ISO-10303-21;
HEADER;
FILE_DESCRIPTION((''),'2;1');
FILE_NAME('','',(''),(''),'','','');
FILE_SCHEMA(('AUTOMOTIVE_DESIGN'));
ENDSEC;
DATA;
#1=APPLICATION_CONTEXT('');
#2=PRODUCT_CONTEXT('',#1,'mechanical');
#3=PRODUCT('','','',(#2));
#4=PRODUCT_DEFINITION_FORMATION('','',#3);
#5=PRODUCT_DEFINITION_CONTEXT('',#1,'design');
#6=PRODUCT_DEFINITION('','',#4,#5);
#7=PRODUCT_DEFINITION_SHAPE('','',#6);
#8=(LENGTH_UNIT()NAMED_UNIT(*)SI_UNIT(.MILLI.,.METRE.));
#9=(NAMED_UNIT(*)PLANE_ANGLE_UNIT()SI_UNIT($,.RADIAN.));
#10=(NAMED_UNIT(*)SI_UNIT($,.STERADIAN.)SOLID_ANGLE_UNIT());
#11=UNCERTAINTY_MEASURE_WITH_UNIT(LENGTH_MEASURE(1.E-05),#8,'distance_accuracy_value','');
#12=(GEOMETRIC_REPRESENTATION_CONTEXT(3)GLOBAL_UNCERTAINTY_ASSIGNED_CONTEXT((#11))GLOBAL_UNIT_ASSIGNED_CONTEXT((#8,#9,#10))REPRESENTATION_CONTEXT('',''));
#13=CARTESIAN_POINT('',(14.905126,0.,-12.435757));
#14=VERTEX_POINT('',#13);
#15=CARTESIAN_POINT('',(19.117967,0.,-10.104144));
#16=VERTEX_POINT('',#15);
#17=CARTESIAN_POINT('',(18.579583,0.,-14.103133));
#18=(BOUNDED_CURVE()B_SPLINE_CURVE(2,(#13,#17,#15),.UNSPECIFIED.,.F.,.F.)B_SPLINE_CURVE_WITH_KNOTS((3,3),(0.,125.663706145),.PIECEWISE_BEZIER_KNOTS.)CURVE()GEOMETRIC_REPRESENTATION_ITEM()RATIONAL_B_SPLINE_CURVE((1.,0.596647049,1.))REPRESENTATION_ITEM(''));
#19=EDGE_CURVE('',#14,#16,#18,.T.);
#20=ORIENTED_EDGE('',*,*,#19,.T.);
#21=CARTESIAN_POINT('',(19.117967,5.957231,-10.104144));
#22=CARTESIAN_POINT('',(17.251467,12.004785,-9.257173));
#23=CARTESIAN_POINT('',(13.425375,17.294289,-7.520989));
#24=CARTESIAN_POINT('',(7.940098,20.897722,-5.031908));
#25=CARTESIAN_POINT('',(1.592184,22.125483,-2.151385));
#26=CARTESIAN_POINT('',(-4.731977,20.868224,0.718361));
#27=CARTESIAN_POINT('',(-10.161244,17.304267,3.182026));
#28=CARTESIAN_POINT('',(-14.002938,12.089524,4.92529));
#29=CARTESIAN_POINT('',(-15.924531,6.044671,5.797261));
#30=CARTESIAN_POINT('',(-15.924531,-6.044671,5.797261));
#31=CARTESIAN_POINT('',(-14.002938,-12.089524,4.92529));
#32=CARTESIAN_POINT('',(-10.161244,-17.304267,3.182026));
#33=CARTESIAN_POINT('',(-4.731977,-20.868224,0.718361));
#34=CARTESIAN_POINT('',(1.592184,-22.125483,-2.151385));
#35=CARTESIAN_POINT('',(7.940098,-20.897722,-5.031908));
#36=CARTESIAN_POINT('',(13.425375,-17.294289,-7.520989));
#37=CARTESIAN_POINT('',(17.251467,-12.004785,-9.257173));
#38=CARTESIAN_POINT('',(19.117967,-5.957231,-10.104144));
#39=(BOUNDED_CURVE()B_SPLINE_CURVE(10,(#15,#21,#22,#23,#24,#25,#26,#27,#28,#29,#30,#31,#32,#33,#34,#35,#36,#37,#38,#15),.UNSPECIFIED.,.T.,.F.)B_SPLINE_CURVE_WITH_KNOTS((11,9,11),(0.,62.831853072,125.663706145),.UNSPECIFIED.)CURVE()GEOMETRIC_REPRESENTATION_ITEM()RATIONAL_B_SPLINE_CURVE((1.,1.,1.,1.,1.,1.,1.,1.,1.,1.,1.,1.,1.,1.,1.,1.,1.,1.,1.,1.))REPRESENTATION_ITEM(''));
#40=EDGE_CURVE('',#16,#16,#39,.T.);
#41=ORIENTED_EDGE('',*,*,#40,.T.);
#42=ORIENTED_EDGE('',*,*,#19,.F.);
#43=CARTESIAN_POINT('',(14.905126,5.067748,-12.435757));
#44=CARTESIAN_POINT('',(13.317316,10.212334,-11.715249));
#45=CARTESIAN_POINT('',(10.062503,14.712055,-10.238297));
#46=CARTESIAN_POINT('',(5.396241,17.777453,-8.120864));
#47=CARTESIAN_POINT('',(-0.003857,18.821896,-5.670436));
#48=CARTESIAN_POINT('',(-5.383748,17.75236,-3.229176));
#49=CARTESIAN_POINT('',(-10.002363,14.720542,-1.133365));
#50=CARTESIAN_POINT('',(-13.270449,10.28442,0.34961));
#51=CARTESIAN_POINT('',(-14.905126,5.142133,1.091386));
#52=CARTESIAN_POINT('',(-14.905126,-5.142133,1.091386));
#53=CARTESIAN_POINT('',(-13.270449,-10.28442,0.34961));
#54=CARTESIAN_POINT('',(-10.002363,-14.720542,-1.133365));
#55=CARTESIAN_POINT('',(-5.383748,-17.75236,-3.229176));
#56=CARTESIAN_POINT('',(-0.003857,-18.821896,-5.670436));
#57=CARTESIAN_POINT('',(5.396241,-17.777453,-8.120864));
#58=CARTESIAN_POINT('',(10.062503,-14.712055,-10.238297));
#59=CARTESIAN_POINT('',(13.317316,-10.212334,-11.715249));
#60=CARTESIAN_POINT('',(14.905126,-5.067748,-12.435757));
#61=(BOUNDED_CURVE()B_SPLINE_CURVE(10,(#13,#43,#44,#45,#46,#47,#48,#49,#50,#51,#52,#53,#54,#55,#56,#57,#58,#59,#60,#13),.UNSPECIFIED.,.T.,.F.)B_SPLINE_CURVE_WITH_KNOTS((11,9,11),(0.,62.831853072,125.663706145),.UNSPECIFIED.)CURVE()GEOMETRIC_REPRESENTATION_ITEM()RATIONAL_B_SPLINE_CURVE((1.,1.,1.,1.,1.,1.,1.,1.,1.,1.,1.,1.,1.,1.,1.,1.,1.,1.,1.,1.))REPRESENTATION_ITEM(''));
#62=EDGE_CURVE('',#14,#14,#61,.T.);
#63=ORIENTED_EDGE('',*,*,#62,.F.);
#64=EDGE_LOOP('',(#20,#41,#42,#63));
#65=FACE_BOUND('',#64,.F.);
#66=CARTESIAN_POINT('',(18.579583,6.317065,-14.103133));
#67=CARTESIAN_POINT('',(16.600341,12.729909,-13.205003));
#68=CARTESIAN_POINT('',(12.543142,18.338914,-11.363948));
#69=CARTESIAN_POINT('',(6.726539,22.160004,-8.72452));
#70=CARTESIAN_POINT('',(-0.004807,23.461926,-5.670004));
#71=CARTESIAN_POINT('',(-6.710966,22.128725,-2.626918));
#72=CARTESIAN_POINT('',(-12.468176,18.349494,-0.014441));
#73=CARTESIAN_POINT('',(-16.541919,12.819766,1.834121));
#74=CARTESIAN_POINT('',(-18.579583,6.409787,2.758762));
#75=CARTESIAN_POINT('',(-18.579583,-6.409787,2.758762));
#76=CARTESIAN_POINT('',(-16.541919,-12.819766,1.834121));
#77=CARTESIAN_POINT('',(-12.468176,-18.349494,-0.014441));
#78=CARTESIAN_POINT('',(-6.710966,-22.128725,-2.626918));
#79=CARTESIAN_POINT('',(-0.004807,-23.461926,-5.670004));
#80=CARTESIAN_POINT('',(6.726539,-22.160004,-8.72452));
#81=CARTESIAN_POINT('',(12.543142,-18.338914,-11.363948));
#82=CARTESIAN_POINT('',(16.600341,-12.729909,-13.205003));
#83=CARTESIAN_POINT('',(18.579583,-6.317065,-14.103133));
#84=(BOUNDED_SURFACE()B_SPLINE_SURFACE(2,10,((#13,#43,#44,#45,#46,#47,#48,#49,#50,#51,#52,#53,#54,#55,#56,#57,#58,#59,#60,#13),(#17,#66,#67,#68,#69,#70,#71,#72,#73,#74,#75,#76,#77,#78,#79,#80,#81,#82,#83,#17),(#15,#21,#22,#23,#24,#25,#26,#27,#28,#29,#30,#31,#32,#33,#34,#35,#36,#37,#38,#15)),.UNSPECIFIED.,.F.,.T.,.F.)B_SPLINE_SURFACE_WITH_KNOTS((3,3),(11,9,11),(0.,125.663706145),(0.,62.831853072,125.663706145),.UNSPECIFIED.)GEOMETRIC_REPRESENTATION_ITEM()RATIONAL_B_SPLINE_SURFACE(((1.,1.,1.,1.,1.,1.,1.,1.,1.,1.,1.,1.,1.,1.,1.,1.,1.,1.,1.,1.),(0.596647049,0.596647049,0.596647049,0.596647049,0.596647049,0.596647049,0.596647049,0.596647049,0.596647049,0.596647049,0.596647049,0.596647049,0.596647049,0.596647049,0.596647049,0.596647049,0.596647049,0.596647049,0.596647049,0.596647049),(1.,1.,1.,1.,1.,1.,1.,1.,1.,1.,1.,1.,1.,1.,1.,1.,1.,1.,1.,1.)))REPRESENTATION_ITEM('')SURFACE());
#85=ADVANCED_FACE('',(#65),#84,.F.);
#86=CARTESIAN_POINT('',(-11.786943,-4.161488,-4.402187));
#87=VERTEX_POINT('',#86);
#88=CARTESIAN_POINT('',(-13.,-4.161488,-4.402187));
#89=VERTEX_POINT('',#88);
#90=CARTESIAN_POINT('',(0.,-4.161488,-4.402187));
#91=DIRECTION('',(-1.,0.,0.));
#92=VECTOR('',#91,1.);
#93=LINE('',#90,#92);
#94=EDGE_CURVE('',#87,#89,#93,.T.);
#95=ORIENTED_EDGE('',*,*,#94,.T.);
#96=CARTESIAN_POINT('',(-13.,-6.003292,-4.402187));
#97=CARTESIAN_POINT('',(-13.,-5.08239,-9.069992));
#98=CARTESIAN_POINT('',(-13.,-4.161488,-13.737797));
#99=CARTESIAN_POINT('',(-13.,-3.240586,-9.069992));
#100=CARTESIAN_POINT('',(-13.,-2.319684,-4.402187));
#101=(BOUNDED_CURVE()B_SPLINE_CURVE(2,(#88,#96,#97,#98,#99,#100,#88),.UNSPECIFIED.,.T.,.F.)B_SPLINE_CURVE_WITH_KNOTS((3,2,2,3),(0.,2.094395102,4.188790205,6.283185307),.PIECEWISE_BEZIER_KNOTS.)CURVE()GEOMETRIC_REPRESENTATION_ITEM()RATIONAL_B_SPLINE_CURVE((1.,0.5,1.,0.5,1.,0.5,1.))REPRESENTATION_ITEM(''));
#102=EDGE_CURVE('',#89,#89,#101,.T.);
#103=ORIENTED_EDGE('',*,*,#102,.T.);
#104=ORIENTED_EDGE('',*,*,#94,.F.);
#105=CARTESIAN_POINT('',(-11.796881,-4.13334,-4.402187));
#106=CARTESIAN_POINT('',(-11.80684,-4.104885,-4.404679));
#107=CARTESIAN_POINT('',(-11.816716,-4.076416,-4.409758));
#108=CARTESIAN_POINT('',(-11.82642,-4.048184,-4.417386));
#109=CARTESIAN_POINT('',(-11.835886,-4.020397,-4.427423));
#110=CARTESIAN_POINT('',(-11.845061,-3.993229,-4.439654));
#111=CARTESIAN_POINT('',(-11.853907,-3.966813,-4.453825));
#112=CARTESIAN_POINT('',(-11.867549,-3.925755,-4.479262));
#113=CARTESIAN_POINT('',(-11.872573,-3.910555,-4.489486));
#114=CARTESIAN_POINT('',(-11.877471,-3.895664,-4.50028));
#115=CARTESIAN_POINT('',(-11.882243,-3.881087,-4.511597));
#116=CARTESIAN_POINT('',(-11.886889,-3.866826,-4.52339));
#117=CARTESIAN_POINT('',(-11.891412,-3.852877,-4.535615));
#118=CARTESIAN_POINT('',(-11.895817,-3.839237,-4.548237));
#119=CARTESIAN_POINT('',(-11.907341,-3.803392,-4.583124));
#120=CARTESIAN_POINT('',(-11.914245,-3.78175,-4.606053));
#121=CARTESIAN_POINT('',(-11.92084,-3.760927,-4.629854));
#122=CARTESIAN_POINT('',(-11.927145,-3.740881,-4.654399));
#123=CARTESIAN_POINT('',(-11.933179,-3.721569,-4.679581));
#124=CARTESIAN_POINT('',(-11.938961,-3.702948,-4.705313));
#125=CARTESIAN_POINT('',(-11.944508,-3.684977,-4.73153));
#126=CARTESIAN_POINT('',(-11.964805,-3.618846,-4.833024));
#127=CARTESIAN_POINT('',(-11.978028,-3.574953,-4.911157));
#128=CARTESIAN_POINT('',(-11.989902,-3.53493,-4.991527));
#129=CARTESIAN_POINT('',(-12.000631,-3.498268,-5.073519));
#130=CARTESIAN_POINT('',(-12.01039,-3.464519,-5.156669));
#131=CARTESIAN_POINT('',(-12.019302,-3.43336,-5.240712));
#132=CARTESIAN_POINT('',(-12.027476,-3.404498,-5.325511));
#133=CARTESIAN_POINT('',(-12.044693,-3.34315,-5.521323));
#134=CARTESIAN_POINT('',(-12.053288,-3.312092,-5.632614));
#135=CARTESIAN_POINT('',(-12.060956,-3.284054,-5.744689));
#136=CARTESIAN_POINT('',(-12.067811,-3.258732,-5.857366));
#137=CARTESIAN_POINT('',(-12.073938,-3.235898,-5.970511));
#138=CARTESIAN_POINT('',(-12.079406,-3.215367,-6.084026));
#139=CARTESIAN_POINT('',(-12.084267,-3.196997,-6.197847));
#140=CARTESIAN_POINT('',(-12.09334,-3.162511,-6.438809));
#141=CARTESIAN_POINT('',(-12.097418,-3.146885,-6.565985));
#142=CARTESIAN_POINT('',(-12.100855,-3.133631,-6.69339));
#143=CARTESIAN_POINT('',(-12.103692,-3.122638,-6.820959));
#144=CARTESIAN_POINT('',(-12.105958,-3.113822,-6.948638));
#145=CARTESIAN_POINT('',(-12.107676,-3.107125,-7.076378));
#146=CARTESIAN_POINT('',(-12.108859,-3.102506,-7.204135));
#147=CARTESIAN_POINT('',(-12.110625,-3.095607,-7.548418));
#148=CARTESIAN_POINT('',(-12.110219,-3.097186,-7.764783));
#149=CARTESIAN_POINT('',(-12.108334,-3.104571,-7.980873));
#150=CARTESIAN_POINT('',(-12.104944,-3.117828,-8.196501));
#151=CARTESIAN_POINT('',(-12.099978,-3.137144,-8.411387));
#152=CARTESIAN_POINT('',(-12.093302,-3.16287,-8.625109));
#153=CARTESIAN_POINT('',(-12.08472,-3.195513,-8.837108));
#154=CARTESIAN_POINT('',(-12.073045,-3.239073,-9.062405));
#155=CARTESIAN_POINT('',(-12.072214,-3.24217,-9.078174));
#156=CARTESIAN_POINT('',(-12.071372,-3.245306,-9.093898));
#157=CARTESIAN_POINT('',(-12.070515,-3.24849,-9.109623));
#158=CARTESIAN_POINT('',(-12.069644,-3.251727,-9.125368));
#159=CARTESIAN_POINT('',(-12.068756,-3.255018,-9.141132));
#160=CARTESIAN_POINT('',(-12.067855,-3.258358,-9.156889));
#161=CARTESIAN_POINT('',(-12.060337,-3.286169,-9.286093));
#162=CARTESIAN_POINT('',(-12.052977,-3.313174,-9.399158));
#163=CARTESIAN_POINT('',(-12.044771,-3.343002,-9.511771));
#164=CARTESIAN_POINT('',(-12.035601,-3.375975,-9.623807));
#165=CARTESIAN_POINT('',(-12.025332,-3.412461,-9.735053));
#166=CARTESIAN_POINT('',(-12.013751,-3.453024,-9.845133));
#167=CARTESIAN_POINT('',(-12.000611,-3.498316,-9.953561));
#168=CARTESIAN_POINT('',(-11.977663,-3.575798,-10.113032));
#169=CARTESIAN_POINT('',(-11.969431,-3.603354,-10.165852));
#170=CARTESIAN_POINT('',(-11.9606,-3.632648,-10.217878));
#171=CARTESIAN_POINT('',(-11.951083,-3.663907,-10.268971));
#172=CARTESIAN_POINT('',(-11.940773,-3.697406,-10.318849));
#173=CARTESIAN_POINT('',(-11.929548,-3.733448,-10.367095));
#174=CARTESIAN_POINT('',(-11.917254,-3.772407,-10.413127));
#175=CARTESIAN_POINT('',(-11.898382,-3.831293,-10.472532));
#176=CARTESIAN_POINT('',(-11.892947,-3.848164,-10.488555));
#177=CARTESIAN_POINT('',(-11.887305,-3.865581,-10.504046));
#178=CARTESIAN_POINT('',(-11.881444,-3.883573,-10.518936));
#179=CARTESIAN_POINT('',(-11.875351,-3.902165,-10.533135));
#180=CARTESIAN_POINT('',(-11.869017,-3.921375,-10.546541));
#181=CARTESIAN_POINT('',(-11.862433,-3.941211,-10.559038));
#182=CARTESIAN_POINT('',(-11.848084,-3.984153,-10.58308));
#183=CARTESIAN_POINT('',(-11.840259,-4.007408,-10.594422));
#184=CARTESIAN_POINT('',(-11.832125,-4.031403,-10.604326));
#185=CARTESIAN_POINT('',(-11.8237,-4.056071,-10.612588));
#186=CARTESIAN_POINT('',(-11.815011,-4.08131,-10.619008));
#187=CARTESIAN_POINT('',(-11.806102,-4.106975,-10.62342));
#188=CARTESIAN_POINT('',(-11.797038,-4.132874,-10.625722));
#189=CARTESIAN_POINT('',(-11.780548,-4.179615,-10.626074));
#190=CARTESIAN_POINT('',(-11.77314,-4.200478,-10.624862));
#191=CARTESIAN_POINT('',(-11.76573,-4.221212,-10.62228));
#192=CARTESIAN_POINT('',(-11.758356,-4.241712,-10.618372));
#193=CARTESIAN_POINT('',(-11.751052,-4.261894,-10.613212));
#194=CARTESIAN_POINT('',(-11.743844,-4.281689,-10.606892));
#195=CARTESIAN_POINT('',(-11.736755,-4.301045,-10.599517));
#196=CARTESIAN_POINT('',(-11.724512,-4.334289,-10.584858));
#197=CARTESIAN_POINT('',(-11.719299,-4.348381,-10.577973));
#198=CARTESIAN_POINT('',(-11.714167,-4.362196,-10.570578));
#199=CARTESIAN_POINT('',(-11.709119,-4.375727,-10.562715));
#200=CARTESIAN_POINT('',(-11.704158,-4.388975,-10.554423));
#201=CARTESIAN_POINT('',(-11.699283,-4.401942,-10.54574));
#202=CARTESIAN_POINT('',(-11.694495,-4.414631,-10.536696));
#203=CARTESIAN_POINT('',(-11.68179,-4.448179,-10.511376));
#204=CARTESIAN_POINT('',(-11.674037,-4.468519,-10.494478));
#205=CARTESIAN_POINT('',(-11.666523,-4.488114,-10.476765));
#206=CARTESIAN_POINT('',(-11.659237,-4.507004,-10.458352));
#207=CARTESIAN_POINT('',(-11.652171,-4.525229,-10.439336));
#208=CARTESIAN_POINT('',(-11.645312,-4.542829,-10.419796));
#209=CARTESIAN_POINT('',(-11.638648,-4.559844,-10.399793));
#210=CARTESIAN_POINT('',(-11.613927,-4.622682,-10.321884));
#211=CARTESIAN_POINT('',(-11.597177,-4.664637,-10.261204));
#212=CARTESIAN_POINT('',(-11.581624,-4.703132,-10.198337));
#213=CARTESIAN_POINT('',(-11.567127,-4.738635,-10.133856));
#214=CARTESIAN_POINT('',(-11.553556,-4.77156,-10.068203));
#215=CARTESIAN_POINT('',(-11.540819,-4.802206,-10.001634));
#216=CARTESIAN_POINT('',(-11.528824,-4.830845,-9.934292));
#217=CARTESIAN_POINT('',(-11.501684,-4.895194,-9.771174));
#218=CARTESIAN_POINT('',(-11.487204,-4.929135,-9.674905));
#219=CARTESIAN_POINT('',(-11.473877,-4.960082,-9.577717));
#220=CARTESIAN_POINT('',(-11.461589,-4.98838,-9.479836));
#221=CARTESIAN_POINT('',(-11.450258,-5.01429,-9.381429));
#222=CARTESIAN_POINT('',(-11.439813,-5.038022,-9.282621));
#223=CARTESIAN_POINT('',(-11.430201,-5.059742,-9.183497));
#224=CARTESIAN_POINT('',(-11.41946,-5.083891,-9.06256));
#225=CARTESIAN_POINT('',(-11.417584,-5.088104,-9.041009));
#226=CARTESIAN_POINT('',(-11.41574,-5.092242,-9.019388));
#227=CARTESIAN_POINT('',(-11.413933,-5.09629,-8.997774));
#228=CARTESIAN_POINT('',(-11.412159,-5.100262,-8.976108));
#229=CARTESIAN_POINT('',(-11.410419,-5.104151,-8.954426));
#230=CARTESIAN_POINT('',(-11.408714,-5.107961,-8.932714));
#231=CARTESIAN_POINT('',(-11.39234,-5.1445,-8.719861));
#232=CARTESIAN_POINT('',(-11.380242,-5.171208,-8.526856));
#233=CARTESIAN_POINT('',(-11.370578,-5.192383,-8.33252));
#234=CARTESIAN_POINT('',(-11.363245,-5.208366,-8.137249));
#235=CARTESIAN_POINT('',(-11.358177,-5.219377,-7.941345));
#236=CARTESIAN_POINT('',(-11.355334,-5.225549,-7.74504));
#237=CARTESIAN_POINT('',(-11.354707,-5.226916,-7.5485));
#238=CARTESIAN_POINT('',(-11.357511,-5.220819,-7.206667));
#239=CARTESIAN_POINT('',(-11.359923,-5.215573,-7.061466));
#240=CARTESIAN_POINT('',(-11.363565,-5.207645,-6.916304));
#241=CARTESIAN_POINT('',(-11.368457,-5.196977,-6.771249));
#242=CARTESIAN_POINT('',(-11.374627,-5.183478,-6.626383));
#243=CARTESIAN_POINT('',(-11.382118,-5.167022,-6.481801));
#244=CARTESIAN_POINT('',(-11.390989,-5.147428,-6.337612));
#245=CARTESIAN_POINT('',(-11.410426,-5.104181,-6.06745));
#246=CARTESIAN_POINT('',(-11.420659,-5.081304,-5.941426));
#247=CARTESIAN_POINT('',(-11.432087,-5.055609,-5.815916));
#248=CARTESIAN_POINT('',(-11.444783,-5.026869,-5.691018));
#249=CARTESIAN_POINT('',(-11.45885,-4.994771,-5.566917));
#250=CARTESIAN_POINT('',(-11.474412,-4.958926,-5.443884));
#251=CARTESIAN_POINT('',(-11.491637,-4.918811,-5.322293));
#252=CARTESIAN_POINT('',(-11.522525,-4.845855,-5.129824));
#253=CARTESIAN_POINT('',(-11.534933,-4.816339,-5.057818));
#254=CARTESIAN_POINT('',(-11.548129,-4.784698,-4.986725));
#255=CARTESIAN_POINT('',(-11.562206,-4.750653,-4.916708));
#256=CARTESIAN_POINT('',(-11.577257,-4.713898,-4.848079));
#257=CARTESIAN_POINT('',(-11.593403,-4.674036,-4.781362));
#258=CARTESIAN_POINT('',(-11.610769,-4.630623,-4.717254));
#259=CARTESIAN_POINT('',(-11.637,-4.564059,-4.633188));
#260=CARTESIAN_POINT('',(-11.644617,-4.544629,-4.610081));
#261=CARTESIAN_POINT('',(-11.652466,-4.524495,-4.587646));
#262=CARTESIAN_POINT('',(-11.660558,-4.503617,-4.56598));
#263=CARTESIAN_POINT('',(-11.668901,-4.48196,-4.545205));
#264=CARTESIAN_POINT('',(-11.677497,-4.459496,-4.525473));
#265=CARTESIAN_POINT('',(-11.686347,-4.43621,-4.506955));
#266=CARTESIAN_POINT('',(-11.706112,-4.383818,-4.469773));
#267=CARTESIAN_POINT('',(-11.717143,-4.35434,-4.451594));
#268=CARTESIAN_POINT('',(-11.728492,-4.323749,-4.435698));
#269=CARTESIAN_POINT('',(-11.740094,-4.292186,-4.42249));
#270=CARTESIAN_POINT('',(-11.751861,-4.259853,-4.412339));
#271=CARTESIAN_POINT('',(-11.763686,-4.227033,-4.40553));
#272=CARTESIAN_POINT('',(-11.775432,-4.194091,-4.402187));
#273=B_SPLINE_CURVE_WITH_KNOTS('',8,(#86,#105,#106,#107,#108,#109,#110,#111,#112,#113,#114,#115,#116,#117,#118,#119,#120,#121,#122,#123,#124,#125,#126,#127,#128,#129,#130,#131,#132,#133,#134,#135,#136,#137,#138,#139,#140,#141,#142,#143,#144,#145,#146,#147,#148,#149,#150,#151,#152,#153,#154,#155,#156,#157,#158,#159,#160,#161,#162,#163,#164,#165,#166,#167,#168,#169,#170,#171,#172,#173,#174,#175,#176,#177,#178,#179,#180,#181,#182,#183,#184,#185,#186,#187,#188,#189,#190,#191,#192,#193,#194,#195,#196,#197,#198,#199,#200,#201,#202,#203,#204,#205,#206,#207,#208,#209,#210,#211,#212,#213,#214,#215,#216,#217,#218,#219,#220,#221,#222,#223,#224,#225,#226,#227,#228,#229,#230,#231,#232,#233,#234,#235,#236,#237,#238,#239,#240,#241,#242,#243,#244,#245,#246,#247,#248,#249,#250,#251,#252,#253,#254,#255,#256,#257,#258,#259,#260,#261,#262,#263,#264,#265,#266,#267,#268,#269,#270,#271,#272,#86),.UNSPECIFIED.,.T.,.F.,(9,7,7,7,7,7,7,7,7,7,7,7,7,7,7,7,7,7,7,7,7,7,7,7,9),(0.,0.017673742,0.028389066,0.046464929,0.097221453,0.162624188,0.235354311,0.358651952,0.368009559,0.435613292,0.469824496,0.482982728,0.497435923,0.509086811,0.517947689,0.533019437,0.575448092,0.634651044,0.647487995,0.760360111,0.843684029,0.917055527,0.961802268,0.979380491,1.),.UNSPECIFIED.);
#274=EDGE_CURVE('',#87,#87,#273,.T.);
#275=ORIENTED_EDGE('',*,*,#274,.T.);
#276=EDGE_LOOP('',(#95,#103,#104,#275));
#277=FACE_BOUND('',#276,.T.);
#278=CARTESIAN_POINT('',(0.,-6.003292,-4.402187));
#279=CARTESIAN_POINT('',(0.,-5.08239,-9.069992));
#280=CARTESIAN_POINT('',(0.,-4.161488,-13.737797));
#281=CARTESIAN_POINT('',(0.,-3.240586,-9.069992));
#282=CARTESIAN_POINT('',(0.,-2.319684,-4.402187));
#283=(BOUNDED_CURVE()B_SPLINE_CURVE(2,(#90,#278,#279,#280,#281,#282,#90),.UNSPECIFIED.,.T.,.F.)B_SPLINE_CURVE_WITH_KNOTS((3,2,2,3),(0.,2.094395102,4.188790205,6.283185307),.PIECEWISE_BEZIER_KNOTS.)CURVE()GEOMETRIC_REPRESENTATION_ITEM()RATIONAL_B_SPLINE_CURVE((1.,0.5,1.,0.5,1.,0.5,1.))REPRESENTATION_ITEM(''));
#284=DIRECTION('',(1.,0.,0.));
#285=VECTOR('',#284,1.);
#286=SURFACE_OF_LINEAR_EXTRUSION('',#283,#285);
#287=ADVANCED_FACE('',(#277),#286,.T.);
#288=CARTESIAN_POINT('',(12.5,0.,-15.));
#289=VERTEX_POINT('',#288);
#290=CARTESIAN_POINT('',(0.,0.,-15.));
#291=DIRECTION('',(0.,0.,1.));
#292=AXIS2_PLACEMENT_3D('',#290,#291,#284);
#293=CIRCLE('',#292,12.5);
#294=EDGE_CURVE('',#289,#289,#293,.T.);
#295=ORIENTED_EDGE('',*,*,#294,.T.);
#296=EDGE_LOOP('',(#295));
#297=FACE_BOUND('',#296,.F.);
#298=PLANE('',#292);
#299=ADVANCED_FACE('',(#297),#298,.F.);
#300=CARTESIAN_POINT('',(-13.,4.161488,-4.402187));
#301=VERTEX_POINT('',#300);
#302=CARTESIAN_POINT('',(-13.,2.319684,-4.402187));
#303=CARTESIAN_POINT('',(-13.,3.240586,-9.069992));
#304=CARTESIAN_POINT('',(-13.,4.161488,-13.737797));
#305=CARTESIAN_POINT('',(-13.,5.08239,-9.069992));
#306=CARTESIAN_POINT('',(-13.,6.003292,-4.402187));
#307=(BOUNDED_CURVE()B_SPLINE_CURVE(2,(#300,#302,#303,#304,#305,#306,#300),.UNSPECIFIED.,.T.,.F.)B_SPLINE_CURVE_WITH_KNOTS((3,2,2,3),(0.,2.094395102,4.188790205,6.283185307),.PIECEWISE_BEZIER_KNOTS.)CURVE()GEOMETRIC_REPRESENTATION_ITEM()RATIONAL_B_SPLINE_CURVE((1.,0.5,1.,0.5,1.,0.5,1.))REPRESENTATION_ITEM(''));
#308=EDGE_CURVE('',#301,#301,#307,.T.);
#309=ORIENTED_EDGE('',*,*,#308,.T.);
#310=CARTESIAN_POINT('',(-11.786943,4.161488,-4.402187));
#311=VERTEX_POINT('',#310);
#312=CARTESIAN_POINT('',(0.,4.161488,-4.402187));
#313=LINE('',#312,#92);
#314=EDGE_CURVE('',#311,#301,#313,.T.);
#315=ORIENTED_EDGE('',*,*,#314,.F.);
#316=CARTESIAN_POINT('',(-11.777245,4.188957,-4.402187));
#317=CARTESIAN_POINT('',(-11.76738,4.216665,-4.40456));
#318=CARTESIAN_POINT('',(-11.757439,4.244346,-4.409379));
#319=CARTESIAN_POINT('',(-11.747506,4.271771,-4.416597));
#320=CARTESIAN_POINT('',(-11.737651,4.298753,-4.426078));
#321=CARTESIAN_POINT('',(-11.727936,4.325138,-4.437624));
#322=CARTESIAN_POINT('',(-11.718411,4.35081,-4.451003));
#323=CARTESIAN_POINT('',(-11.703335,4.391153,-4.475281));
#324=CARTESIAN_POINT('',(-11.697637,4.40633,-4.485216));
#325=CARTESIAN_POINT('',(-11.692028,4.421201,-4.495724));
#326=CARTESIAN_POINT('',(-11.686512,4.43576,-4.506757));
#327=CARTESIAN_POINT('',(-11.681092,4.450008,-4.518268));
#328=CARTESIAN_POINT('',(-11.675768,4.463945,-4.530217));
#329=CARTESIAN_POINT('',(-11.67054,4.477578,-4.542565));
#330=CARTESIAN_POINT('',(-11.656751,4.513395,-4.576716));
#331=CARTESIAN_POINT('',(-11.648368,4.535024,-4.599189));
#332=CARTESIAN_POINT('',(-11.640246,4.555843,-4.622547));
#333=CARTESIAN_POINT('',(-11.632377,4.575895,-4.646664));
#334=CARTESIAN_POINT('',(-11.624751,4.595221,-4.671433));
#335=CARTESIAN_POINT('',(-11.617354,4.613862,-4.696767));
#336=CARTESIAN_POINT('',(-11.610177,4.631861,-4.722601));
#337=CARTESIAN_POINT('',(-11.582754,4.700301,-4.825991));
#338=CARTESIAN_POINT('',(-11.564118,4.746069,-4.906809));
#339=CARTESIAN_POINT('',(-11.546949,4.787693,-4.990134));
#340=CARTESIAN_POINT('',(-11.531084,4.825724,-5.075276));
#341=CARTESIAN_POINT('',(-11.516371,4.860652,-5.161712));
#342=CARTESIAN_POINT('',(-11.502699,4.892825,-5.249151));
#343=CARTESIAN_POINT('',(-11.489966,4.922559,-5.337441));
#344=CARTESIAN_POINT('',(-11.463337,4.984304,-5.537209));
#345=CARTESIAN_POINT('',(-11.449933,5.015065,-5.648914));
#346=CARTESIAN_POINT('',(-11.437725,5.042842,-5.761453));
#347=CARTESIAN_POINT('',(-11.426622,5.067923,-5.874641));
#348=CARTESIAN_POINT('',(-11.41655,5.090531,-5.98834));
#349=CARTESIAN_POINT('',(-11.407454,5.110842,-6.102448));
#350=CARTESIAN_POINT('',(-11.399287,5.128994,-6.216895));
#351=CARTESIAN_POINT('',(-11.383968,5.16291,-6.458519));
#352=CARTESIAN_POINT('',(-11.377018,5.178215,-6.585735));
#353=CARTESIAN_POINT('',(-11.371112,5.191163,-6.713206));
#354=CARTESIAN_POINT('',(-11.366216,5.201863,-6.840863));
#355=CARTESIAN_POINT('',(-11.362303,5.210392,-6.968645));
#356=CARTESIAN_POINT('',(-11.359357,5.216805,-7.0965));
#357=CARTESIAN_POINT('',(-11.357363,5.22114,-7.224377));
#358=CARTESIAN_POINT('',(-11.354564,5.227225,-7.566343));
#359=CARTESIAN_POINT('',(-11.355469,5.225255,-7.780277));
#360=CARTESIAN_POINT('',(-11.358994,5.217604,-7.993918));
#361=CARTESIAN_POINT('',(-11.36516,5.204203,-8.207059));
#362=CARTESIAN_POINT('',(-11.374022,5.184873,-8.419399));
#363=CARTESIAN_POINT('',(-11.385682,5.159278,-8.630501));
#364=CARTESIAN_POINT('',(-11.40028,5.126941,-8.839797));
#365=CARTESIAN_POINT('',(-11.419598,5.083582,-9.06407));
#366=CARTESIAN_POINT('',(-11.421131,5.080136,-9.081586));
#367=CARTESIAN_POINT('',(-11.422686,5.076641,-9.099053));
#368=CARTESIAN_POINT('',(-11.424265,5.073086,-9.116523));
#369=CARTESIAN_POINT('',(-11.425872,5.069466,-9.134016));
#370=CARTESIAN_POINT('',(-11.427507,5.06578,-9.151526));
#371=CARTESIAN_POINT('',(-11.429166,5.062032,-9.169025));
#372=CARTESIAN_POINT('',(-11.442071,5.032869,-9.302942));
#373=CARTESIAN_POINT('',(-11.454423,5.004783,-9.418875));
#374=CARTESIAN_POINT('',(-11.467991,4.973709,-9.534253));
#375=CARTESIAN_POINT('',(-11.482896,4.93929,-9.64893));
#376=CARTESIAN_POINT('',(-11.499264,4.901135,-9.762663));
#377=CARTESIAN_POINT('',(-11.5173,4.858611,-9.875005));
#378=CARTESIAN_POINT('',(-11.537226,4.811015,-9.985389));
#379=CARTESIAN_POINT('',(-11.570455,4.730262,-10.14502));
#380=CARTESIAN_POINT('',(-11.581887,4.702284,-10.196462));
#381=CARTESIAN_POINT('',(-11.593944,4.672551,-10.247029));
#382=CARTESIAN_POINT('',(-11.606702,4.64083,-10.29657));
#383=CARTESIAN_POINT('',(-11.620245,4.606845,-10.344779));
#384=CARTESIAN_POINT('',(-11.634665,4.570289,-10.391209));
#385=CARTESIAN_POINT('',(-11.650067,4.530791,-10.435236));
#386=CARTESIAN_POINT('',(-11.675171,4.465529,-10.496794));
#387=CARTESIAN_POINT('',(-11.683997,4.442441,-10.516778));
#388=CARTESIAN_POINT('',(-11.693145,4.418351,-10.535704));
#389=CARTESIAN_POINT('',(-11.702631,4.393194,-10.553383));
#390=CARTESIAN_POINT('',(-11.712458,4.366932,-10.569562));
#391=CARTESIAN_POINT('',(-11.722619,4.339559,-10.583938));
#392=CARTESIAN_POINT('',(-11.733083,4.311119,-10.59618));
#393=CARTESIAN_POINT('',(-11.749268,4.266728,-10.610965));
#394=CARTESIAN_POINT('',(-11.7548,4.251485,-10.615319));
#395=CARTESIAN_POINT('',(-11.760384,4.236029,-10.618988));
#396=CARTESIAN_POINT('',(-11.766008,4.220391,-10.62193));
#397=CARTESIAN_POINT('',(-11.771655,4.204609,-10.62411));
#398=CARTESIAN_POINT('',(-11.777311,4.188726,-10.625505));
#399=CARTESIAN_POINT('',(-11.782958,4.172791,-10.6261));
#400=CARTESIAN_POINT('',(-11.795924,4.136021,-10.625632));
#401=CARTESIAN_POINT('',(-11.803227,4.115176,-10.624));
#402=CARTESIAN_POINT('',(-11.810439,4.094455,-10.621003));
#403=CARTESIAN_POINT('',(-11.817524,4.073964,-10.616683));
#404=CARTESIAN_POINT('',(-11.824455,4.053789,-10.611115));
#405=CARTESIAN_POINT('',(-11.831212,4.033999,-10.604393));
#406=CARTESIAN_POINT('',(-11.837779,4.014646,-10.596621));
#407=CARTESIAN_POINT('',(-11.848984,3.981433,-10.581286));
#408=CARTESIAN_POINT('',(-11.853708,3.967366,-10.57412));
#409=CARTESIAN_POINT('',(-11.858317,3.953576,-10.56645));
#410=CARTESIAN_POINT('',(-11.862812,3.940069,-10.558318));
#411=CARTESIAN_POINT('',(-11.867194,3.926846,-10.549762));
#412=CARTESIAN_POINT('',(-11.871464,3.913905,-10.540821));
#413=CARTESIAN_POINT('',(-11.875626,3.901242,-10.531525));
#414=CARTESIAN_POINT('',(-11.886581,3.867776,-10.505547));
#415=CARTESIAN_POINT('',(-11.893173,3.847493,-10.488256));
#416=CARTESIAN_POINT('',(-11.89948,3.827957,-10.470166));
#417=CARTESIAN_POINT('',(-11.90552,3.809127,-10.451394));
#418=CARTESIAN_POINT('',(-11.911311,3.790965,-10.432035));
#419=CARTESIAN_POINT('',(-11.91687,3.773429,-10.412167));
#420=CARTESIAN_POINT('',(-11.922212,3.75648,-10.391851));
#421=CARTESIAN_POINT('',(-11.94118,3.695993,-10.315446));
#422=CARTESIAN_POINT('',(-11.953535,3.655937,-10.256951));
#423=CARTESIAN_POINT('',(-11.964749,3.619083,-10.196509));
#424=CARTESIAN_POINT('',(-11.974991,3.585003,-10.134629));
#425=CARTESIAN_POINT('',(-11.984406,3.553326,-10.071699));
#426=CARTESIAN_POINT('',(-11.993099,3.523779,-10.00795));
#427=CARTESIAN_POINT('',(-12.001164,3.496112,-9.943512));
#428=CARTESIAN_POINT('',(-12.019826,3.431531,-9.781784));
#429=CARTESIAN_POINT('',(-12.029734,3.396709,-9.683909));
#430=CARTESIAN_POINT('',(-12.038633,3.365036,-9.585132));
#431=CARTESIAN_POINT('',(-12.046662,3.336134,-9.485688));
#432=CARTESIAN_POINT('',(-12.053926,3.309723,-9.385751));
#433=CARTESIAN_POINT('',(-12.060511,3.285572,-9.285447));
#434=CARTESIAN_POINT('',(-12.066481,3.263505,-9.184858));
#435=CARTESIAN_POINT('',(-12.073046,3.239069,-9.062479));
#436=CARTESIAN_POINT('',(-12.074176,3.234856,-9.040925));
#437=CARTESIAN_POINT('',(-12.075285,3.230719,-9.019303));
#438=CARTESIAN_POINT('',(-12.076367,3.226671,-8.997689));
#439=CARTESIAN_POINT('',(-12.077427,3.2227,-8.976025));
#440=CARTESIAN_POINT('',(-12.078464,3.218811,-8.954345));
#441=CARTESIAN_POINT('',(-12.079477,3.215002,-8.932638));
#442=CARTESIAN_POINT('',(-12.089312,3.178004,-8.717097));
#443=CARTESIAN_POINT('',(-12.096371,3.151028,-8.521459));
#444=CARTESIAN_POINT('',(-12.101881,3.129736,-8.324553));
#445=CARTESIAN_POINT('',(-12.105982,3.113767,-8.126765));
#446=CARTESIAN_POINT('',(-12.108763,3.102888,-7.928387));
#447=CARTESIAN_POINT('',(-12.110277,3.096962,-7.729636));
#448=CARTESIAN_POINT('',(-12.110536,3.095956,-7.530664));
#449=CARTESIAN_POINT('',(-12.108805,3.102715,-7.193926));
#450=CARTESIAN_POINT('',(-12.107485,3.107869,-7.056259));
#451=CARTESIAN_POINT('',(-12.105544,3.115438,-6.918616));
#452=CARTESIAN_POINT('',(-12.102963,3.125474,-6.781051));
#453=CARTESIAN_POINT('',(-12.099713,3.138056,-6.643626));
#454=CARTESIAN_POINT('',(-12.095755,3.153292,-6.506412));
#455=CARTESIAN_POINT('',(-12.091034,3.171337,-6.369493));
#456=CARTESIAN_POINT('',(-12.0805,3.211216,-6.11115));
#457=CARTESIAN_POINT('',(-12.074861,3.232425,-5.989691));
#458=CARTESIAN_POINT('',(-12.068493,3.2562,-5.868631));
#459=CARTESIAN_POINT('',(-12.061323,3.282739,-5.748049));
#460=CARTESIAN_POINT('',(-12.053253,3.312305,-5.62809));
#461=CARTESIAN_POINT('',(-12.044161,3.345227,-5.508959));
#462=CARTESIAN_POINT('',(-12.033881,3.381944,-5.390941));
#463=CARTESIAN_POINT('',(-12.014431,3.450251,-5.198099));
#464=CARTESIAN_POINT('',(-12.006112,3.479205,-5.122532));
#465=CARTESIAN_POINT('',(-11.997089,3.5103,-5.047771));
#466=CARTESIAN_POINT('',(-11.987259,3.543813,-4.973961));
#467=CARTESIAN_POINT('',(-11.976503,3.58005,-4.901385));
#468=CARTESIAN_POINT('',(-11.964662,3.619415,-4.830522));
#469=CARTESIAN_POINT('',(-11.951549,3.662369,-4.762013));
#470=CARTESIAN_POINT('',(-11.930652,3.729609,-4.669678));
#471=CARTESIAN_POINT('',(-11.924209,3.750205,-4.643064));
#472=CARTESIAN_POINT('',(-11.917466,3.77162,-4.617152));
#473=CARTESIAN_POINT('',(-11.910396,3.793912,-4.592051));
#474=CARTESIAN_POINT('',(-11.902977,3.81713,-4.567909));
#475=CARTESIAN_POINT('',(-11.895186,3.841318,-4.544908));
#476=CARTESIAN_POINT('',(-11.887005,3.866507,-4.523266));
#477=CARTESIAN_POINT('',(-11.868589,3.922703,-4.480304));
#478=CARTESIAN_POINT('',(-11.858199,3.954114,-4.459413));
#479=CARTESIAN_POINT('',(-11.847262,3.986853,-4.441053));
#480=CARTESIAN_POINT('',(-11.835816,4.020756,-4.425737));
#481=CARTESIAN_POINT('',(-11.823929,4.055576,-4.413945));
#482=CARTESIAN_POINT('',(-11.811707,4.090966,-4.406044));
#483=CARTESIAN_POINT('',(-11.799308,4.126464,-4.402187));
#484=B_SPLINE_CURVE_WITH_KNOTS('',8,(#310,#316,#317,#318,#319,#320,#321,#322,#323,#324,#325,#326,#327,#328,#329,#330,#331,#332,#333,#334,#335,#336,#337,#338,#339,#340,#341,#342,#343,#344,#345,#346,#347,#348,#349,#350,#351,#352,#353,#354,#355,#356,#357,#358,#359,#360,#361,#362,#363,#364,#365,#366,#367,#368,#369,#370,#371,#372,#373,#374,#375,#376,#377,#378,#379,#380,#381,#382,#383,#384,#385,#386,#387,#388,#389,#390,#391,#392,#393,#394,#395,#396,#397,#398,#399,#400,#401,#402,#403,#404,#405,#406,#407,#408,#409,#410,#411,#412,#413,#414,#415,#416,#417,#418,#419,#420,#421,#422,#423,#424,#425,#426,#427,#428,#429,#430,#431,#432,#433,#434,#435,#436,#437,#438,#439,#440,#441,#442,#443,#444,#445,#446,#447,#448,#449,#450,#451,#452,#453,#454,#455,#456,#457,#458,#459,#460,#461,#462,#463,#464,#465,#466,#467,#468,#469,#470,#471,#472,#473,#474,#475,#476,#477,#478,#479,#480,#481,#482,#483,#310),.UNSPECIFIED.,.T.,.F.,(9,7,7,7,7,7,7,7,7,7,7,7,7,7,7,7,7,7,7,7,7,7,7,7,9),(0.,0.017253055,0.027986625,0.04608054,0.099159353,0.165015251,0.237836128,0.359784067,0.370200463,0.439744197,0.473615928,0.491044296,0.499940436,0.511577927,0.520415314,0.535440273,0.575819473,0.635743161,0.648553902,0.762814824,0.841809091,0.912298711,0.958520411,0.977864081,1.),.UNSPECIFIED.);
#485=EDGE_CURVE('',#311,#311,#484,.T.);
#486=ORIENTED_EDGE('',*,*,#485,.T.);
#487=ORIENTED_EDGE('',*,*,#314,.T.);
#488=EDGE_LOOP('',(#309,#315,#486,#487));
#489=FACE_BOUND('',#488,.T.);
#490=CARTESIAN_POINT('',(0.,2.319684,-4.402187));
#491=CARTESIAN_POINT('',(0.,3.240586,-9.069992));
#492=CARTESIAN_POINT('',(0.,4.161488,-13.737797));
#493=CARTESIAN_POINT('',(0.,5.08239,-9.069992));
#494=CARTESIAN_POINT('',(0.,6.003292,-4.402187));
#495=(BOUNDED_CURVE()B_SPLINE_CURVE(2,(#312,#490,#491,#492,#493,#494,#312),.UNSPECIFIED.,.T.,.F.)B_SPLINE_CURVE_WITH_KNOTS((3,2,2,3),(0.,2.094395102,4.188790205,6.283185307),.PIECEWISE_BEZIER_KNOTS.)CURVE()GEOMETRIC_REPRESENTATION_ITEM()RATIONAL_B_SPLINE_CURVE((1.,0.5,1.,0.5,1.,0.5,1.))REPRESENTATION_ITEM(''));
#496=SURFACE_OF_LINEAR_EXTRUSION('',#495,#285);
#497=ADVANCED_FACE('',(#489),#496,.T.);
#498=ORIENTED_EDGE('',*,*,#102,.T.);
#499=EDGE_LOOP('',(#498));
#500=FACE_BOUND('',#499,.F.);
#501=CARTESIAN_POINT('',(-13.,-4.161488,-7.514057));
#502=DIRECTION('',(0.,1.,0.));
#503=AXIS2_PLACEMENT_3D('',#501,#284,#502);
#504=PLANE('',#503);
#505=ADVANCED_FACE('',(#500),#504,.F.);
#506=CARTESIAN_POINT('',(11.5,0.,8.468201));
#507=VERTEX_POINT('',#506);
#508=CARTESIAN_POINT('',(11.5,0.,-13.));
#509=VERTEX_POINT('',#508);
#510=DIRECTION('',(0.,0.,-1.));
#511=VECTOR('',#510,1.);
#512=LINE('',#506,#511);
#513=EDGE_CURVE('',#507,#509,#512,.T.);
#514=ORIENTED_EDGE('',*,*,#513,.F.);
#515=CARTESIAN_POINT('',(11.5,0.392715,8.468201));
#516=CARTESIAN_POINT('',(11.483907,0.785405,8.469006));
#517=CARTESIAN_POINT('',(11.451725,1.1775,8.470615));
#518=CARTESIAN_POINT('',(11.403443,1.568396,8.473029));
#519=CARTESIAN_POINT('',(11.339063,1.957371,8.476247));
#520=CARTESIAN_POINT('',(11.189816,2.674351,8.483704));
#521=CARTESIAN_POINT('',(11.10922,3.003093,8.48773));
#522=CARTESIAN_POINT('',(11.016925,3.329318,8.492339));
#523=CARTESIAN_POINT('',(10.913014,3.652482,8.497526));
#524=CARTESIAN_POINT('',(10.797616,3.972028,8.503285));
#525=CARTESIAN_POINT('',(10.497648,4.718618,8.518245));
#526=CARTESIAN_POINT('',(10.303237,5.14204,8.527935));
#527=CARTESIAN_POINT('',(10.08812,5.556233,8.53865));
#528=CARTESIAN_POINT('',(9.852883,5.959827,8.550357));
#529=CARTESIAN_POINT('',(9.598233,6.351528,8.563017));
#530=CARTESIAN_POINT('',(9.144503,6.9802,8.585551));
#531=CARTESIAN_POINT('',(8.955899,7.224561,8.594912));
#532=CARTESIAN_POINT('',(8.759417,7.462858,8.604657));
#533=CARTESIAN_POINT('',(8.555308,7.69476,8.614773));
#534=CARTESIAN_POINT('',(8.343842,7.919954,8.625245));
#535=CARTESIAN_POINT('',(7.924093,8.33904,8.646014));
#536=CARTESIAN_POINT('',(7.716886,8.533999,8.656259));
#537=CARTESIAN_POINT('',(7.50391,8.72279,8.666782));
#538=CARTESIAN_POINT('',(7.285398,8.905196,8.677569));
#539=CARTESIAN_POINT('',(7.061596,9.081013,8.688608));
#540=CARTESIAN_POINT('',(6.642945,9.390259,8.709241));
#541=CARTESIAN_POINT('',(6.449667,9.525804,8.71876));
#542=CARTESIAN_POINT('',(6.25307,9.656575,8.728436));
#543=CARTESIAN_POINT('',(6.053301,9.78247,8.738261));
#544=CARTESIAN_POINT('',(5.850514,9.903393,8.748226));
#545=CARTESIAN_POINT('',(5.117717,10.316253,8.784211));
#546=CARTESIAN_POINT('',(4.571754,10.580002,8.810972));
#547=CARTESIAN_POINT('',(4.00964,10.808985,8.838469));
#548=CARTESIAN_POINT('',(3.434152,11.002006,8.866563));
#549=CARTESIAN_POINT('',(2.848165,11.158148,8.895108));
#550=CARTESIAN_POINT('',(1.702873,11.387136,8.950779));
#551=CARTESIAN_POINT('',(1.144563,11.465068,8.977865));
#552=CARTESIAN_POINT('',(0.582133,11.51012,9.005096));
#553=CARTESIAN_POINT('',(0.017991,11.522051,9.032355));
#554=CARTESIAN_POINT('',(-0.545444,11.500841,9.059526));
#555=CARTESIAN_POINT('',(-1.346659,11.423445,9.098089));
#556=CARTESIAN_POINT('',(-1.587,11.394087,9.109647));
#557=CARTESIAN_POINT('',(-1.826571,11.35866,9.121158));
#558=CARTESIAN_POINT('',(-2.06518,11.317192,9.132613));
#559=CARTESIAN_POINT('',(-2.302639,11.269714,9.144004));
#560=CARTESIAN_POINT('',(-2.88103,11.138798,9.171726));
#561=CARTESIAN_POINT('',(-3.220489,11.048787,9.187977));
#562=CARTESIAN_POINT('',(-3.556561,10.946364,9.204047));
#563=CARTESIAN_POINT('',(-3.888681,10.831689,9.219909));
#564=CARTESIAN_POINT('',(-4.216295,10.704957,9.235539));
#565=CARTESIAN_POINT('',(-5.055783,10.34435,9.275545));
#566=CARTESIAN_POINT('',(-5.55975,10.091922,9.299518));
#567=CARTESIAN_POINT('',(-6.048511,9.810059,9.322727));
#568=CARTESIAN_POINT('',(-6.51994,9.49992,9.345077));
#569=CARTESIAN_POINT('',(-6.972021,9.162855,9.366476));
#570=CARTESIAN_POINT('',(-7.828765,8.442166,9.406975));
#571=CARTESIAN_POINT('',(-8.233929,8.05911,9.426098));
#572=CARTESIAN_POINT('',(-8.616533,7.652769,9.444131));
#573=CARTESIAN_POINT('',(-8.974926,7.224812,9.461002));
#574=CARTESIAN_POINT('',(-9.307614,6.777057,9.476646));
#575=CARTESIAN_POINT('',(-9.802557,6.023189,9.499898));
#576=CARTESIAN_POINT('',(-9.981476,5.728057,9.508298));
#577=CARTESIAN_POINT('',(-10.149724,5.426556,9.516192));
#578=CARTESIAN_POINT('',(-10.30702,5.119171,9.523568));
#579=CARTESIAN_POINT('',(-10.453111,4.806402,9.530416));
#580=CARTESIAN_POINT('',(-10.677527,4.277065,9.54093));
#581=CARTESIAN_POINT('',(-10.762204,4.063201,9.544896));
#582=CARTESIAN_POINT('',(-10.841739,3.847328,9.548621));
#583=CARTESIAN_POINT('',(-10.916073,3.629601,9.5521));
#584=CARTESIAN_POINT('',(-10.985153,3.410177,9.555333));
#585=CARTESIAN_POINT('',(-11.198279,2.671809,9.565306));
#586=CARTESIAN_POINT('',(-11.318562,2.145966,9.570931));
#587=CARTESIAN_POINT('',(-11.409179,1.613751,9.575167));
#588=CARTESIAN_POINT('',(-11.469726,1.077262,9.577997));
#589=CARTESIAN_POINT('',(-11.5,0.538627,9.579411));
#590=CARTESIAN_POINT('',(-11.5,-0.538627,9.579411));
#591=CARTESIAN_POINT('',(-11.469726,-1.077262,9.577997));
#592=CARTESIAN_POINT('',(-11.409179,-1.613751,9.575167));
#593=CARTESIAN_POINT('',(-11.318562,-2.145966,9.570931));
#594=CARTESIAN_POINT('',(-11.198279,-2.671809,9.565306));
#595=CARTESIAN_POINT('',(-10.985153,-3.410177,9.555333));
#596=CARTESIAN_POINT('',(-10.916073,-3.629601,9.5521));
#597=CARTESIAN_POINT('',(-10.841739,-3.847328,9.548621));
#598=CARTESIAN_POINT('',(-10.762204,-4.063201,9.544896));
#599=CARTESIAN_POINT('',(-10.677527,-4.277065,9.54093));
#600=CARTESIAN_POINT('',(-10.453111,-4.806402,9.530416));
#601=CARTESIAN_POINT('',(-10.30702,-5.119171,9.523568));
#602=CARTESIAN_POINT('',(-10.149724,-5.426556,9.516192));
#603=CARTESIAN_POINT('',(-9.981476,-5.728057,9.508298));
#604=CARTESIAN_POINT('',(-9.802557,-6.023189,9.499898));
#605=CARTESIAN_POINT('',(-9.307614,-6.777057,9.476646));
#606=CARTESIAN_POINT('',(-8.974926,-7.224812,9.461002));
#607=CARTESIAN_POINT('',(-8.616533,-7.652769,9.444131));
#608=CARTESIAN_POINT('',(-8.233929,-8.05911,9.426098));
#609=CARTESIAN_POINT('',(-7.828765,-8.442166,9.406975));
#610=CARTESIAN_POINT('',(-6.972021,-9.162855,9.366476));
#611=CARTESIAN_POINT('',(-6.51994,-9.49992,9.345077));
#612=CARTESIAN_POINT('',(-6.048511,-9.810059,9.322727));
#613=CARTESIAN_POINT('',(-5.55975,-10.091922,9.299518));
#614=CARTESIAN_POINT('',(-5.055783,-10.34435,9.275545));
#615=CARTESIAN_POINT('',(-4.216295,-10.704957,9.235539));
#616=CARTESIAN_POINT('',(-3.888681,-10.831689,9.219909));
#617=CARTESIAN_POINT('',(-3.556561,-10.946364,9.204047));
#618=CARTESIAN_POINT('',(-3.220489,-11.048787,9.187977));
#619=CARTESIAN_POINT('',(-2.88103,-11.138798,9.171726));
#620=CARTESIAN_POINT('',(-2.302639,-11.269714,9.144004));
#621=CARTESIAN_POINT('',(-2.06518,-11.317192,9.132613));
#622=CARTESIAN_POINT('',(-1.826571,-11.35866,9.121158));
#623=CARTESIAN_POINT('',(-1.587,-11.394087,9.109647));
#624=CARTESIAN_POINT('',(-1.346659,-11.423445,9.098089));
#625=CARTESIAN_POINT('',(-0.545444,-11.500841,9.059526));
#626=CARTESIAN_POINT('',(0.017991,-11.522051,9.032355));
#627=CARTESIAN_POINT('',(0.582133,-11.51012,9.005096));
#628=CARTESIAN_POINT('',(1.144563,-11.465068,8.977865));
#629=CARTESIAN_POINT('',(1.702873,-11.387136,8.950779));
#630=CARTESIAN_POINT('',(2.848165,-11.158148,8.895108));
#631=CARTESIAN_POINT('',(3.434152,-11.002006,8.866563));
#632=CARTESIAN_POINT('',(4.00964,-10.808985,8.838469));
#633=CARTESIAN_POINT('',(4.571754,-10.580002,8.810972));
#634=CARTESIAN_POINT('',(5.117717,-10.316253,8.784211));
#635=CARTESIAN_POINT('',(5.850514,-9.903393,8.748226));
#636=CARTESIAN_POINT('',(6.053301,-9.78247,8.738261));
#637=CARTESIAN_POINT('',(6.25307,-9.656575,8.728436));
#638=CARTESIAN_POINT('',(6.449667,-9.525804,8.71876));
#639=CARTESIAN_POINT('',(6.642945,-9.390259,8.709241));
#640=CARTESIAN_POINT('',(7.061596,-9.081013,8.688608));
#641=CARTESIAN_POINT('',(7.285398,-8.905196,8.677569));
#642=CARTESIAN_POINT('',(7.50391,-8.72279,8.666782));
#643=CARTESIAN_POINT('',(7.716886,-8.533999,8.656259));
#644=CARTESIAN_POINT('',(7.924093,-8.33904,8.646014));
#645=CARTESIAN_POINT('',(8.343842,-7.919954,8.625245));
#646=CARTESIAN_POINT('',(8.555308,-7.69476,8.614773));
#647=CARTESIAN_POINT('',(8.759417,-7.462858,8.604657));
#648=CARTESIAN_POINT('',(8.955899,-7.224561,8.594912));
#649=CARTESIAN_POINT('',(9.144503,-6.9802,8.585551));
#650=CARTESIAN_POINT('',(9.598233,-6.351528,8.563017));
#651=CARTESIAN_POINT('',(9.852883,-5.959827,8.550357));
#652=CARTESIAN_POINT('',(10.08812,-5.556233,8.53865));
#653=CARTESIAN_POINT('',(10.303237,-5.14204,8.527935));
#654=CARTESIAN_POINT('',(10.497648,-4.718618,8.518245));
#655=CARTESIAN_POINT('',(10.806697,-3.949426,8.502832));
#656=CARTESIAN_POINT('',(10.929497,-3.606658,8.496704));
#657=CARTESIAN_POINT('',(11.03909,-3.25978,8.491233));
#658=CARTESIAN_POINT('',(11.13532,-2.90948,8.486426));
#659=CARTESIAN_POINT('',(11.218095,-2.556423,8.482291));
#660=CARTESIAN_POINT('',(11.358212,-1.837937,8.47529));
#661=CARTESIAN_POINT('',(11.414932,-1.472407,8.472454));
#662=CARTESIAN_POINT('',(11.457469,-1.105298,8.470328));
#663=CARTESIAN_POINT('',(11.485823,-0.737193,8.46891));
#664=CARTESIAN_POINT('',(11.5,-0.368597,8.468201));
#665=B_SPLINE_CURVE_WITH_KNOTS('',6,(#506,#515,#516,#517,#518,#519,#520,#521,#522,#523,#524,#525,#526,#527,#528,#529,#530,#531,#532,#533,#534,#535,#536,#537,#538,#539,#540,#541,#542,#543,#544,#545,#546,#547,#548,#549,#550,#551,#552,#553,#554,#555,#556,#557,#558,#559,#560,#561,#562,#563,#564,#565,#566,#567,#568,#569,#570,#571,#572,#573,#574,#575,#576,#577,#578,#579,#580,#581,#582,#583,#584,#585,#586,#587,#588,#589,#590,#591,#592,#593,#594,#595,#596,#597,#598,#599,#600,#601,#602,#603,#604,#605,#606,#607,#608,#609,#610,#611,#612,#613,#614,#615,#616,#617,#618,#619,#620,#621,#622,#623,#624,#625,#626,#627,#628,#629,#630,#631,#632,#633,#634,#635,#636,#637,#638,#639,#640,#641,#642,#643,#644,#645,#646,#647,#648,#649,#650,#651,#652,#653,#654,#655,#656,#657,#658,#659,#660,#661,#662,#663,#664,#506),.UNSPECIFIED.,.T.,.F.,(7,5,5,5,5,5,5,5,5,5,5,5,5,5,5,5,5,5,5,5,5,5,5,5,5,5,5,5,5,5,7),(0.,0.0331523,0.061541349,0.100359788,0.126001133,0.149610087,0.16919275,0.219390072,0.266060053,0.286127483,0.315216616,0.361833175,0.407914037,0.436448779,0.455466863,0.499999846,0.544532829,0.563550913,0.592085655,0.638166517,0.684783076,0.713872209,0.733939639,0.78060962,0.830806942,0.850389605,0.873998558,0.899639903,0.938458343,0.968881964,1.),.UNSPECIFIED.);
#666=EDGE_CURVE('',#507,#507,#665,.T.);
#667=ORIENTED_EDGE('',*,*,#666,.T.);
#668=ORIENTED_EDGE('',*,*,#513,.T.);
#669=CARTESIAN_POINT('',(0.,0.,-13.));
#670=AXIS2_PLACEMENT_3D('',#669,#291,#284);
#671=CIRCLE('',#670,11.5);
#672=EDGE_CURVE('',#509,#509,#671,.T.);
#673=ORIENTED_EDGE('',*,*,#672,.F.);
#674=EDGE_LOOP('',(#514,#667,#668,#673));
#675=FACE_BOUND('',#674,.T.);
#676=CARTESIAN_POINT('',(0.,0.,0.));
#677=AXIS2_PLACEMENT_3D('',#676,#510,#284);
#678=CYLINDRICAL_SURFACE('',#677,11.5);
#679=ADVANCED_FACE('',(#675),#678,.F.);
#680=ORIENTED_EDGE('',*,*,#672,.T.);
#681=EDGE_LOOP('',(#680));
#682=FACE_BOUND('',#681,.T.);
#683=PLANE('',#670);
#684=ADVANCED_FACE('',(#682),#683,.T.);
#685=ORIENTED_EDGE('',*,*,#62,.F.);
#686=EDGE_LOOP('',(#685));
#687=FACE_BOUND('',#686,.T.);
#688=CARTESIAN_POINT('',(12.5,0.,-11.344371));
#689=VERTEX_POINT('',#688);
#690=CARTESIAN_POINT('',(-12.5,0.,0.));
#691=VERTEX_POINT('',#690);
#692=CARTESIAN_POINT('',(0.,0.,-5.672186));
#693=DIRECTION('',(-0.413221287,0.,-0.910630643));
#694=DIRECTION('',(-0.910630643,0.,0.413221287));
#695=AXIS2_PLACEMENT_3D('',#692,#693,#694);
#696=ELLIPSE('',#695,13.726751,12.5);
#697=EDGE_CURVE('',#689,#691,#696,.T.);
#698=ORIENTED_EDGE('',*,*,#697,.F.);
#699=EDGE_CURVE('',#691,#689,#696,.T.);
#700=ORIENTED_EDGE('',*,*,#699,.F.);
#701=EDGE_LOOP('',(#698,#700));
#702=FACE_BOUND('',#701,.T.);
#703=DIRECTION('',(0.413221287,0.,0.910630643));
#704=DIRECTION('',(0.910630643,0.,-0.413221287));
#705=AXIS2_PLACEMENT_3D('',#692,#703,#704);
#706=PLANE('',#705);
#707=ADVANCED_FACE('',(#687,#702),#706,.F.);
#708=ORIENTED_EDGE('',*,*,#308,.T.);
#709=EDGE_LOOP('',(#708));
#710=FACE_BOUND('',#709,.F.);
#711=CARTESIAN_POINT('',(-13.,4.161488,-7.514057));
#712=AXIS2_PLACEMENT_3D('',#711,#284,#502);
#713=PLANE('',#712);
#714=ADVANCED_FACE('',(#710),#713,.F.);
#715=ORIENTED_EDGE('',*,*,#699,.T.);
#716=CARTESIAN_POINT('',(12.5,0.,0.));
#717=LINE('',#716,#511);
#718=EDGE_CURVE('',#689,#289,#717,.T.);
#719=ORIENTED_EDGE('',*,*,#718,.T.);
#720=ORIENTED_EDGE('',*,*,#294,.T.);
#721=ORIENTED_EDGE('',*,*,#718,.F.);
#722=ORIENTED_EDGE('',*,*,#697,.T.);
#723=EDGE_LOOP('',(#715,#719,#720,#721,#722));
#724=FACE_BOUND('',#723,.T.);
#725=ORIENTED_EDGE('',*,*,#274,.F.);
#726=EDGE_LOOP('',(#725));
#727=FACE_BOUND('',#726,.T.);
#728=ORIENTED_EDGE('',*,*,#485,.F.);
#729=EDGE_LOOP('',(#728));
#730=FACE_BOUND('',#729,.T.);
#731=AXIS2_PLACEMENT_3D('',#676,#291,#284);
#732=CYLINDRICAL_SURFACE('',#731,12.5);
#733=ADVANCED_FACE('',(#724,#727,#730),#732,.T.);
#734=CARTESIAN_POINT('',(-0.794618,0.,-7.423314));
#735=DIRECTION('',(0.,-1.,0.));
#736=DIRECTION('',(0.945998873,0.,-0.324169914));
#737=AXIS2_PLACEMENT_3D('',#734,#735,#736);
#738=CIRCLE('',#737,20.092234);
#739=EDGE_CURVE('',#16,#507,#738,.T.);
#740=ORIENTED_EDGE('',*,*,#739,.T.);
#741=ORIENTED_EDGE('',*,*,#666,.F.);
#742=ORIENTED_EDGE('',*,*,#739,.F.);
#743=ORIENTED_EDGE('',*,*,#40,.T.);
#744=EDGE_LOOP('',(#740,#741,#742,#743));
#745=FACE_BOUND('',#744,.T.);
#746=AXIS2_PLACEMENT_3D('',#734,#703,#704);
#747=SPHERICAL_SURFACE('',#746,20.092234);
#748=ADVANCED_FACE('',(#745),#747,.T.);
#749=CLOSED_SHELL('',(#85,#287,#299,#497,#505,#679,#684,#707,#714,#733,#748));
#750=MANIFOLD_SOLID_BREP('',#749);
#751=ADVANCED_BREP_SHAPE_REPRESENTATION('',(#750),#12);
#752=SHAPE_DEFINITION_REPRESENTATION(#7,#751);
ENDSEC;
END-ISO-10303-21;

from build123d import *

# Parameters (mm, degrees)
F0_R      = 12.5
F1_DEPTH  = 15
F3_DEPTH  = 15
F5_DEPTH  = 13
F10_R     = 3
F11_R     = 11.5
F12_DEPTH = 12.6699203183
F14_R     = 11.5
F15_DEPTH = 13


with BuildPart() as f1:
    # F0 (on Top) → F1 (new body)
    with BuildSketch(Plane.XY):
        Circle(F0_R)
    extrude(amount=-F1_DEPTH)

    # F2 (on Front) → F3 (cut, symmetric)
    with BuildSketch(Plane.XZ):
        Polygon((12.5, 0), (-12.5, 0), (12.5, -11.3443713635), align=None)
    extrude(amount=F3_DEPTH, both=True, mode=Mode.SUBTRACT)

    # F4 (on Right) → F5 (join)
    with BuildSketch(Plane.YZ):
        with BuildLine():
            add(Edge.make_bspline(
                [(4.1614882648, -4.4021867216), (2.3196844094, -4.4021867216), (3.2405863371, -9.0699917637), (4.1614882648, -13.7377968058), (5.0823901925, -9.0699917637), (6.0032921202, -4.4021867216), (4.1614882648, -4.4021867216)],
                knots=[0, 0, 0, 2.0943951024, 2.0943951024, 4.1887902048, 4.1887902048, 6.2831853072, 6.2831853072, 6.2831853072], degree=2, weights=[1, 0.5, 1, 0.5, 1, 0.5, 1]))
        make_face()
        with BuildLine():
            add(Edge.make_bspline(
                [(-4.1614882648, -4.4021867216), (-6.0032921202, -4.4021867216), (-5.0823901925, -9.0699917637), (-4.1614882648, -13.7377968058), (-3.2405863371, -9.0699917637), (-2.3196844094, -4.4021867216), (-4.1614882648, -4.4021867216)],
                knots=[0, 0, 0, 2.0943951024, 2.0943951024, 4.1887902048, 4.1887902048, 6.2831853072, 6.2831853072, 6.2831853072], degree=2, weights=[1, 0.5, 1, 0.5, 1, 0.5, 1]))
        make_face()
    extrude(amount=-F5_DEPTH)

    # F8 (on Front) → F9 (revolve)
    with BuildSketch(Plane.XZ):
        with BuildLine():
            Line((0, -5.6721856818), (18.2126128557, -13.9366114312))
            ThreePointArc((18.2126128557, -13.9366114312), (17.6536526203, 0.5365345313), (7.5079209485, 10.8732902815))
            Line((7.5079209485, 10.8732902815), (0, -5.6721856818))
        make_face()
    revolve(axis=Axis((3.7539604743, 0, 2.6005522999), (0.4132212875, 0, 0.9106306428)))

    # F10
    f10_edges = [f1.edges().sort_by_distance(p)[0] for p in [
        (-18.212613, 0, 2.59224),
    ]]
    fillet(f10_edges, radius=F10_R)

    # F11 (on Top) → F12 (cut, through all)
    with BuildSketch(Plane.XY):
        Circle(F11_R)
    extrude(amount=F12_DEPTH, mode=Mode.SUBTRACT)

    # F14 (on face) → F15 (cut)
    with BuildSketch(Plane.XY):
        Circle(F14_R)
    extrude(amount=-F15_DEPTH, mode=Mode.SUBTRACT)


solid = f1.part
